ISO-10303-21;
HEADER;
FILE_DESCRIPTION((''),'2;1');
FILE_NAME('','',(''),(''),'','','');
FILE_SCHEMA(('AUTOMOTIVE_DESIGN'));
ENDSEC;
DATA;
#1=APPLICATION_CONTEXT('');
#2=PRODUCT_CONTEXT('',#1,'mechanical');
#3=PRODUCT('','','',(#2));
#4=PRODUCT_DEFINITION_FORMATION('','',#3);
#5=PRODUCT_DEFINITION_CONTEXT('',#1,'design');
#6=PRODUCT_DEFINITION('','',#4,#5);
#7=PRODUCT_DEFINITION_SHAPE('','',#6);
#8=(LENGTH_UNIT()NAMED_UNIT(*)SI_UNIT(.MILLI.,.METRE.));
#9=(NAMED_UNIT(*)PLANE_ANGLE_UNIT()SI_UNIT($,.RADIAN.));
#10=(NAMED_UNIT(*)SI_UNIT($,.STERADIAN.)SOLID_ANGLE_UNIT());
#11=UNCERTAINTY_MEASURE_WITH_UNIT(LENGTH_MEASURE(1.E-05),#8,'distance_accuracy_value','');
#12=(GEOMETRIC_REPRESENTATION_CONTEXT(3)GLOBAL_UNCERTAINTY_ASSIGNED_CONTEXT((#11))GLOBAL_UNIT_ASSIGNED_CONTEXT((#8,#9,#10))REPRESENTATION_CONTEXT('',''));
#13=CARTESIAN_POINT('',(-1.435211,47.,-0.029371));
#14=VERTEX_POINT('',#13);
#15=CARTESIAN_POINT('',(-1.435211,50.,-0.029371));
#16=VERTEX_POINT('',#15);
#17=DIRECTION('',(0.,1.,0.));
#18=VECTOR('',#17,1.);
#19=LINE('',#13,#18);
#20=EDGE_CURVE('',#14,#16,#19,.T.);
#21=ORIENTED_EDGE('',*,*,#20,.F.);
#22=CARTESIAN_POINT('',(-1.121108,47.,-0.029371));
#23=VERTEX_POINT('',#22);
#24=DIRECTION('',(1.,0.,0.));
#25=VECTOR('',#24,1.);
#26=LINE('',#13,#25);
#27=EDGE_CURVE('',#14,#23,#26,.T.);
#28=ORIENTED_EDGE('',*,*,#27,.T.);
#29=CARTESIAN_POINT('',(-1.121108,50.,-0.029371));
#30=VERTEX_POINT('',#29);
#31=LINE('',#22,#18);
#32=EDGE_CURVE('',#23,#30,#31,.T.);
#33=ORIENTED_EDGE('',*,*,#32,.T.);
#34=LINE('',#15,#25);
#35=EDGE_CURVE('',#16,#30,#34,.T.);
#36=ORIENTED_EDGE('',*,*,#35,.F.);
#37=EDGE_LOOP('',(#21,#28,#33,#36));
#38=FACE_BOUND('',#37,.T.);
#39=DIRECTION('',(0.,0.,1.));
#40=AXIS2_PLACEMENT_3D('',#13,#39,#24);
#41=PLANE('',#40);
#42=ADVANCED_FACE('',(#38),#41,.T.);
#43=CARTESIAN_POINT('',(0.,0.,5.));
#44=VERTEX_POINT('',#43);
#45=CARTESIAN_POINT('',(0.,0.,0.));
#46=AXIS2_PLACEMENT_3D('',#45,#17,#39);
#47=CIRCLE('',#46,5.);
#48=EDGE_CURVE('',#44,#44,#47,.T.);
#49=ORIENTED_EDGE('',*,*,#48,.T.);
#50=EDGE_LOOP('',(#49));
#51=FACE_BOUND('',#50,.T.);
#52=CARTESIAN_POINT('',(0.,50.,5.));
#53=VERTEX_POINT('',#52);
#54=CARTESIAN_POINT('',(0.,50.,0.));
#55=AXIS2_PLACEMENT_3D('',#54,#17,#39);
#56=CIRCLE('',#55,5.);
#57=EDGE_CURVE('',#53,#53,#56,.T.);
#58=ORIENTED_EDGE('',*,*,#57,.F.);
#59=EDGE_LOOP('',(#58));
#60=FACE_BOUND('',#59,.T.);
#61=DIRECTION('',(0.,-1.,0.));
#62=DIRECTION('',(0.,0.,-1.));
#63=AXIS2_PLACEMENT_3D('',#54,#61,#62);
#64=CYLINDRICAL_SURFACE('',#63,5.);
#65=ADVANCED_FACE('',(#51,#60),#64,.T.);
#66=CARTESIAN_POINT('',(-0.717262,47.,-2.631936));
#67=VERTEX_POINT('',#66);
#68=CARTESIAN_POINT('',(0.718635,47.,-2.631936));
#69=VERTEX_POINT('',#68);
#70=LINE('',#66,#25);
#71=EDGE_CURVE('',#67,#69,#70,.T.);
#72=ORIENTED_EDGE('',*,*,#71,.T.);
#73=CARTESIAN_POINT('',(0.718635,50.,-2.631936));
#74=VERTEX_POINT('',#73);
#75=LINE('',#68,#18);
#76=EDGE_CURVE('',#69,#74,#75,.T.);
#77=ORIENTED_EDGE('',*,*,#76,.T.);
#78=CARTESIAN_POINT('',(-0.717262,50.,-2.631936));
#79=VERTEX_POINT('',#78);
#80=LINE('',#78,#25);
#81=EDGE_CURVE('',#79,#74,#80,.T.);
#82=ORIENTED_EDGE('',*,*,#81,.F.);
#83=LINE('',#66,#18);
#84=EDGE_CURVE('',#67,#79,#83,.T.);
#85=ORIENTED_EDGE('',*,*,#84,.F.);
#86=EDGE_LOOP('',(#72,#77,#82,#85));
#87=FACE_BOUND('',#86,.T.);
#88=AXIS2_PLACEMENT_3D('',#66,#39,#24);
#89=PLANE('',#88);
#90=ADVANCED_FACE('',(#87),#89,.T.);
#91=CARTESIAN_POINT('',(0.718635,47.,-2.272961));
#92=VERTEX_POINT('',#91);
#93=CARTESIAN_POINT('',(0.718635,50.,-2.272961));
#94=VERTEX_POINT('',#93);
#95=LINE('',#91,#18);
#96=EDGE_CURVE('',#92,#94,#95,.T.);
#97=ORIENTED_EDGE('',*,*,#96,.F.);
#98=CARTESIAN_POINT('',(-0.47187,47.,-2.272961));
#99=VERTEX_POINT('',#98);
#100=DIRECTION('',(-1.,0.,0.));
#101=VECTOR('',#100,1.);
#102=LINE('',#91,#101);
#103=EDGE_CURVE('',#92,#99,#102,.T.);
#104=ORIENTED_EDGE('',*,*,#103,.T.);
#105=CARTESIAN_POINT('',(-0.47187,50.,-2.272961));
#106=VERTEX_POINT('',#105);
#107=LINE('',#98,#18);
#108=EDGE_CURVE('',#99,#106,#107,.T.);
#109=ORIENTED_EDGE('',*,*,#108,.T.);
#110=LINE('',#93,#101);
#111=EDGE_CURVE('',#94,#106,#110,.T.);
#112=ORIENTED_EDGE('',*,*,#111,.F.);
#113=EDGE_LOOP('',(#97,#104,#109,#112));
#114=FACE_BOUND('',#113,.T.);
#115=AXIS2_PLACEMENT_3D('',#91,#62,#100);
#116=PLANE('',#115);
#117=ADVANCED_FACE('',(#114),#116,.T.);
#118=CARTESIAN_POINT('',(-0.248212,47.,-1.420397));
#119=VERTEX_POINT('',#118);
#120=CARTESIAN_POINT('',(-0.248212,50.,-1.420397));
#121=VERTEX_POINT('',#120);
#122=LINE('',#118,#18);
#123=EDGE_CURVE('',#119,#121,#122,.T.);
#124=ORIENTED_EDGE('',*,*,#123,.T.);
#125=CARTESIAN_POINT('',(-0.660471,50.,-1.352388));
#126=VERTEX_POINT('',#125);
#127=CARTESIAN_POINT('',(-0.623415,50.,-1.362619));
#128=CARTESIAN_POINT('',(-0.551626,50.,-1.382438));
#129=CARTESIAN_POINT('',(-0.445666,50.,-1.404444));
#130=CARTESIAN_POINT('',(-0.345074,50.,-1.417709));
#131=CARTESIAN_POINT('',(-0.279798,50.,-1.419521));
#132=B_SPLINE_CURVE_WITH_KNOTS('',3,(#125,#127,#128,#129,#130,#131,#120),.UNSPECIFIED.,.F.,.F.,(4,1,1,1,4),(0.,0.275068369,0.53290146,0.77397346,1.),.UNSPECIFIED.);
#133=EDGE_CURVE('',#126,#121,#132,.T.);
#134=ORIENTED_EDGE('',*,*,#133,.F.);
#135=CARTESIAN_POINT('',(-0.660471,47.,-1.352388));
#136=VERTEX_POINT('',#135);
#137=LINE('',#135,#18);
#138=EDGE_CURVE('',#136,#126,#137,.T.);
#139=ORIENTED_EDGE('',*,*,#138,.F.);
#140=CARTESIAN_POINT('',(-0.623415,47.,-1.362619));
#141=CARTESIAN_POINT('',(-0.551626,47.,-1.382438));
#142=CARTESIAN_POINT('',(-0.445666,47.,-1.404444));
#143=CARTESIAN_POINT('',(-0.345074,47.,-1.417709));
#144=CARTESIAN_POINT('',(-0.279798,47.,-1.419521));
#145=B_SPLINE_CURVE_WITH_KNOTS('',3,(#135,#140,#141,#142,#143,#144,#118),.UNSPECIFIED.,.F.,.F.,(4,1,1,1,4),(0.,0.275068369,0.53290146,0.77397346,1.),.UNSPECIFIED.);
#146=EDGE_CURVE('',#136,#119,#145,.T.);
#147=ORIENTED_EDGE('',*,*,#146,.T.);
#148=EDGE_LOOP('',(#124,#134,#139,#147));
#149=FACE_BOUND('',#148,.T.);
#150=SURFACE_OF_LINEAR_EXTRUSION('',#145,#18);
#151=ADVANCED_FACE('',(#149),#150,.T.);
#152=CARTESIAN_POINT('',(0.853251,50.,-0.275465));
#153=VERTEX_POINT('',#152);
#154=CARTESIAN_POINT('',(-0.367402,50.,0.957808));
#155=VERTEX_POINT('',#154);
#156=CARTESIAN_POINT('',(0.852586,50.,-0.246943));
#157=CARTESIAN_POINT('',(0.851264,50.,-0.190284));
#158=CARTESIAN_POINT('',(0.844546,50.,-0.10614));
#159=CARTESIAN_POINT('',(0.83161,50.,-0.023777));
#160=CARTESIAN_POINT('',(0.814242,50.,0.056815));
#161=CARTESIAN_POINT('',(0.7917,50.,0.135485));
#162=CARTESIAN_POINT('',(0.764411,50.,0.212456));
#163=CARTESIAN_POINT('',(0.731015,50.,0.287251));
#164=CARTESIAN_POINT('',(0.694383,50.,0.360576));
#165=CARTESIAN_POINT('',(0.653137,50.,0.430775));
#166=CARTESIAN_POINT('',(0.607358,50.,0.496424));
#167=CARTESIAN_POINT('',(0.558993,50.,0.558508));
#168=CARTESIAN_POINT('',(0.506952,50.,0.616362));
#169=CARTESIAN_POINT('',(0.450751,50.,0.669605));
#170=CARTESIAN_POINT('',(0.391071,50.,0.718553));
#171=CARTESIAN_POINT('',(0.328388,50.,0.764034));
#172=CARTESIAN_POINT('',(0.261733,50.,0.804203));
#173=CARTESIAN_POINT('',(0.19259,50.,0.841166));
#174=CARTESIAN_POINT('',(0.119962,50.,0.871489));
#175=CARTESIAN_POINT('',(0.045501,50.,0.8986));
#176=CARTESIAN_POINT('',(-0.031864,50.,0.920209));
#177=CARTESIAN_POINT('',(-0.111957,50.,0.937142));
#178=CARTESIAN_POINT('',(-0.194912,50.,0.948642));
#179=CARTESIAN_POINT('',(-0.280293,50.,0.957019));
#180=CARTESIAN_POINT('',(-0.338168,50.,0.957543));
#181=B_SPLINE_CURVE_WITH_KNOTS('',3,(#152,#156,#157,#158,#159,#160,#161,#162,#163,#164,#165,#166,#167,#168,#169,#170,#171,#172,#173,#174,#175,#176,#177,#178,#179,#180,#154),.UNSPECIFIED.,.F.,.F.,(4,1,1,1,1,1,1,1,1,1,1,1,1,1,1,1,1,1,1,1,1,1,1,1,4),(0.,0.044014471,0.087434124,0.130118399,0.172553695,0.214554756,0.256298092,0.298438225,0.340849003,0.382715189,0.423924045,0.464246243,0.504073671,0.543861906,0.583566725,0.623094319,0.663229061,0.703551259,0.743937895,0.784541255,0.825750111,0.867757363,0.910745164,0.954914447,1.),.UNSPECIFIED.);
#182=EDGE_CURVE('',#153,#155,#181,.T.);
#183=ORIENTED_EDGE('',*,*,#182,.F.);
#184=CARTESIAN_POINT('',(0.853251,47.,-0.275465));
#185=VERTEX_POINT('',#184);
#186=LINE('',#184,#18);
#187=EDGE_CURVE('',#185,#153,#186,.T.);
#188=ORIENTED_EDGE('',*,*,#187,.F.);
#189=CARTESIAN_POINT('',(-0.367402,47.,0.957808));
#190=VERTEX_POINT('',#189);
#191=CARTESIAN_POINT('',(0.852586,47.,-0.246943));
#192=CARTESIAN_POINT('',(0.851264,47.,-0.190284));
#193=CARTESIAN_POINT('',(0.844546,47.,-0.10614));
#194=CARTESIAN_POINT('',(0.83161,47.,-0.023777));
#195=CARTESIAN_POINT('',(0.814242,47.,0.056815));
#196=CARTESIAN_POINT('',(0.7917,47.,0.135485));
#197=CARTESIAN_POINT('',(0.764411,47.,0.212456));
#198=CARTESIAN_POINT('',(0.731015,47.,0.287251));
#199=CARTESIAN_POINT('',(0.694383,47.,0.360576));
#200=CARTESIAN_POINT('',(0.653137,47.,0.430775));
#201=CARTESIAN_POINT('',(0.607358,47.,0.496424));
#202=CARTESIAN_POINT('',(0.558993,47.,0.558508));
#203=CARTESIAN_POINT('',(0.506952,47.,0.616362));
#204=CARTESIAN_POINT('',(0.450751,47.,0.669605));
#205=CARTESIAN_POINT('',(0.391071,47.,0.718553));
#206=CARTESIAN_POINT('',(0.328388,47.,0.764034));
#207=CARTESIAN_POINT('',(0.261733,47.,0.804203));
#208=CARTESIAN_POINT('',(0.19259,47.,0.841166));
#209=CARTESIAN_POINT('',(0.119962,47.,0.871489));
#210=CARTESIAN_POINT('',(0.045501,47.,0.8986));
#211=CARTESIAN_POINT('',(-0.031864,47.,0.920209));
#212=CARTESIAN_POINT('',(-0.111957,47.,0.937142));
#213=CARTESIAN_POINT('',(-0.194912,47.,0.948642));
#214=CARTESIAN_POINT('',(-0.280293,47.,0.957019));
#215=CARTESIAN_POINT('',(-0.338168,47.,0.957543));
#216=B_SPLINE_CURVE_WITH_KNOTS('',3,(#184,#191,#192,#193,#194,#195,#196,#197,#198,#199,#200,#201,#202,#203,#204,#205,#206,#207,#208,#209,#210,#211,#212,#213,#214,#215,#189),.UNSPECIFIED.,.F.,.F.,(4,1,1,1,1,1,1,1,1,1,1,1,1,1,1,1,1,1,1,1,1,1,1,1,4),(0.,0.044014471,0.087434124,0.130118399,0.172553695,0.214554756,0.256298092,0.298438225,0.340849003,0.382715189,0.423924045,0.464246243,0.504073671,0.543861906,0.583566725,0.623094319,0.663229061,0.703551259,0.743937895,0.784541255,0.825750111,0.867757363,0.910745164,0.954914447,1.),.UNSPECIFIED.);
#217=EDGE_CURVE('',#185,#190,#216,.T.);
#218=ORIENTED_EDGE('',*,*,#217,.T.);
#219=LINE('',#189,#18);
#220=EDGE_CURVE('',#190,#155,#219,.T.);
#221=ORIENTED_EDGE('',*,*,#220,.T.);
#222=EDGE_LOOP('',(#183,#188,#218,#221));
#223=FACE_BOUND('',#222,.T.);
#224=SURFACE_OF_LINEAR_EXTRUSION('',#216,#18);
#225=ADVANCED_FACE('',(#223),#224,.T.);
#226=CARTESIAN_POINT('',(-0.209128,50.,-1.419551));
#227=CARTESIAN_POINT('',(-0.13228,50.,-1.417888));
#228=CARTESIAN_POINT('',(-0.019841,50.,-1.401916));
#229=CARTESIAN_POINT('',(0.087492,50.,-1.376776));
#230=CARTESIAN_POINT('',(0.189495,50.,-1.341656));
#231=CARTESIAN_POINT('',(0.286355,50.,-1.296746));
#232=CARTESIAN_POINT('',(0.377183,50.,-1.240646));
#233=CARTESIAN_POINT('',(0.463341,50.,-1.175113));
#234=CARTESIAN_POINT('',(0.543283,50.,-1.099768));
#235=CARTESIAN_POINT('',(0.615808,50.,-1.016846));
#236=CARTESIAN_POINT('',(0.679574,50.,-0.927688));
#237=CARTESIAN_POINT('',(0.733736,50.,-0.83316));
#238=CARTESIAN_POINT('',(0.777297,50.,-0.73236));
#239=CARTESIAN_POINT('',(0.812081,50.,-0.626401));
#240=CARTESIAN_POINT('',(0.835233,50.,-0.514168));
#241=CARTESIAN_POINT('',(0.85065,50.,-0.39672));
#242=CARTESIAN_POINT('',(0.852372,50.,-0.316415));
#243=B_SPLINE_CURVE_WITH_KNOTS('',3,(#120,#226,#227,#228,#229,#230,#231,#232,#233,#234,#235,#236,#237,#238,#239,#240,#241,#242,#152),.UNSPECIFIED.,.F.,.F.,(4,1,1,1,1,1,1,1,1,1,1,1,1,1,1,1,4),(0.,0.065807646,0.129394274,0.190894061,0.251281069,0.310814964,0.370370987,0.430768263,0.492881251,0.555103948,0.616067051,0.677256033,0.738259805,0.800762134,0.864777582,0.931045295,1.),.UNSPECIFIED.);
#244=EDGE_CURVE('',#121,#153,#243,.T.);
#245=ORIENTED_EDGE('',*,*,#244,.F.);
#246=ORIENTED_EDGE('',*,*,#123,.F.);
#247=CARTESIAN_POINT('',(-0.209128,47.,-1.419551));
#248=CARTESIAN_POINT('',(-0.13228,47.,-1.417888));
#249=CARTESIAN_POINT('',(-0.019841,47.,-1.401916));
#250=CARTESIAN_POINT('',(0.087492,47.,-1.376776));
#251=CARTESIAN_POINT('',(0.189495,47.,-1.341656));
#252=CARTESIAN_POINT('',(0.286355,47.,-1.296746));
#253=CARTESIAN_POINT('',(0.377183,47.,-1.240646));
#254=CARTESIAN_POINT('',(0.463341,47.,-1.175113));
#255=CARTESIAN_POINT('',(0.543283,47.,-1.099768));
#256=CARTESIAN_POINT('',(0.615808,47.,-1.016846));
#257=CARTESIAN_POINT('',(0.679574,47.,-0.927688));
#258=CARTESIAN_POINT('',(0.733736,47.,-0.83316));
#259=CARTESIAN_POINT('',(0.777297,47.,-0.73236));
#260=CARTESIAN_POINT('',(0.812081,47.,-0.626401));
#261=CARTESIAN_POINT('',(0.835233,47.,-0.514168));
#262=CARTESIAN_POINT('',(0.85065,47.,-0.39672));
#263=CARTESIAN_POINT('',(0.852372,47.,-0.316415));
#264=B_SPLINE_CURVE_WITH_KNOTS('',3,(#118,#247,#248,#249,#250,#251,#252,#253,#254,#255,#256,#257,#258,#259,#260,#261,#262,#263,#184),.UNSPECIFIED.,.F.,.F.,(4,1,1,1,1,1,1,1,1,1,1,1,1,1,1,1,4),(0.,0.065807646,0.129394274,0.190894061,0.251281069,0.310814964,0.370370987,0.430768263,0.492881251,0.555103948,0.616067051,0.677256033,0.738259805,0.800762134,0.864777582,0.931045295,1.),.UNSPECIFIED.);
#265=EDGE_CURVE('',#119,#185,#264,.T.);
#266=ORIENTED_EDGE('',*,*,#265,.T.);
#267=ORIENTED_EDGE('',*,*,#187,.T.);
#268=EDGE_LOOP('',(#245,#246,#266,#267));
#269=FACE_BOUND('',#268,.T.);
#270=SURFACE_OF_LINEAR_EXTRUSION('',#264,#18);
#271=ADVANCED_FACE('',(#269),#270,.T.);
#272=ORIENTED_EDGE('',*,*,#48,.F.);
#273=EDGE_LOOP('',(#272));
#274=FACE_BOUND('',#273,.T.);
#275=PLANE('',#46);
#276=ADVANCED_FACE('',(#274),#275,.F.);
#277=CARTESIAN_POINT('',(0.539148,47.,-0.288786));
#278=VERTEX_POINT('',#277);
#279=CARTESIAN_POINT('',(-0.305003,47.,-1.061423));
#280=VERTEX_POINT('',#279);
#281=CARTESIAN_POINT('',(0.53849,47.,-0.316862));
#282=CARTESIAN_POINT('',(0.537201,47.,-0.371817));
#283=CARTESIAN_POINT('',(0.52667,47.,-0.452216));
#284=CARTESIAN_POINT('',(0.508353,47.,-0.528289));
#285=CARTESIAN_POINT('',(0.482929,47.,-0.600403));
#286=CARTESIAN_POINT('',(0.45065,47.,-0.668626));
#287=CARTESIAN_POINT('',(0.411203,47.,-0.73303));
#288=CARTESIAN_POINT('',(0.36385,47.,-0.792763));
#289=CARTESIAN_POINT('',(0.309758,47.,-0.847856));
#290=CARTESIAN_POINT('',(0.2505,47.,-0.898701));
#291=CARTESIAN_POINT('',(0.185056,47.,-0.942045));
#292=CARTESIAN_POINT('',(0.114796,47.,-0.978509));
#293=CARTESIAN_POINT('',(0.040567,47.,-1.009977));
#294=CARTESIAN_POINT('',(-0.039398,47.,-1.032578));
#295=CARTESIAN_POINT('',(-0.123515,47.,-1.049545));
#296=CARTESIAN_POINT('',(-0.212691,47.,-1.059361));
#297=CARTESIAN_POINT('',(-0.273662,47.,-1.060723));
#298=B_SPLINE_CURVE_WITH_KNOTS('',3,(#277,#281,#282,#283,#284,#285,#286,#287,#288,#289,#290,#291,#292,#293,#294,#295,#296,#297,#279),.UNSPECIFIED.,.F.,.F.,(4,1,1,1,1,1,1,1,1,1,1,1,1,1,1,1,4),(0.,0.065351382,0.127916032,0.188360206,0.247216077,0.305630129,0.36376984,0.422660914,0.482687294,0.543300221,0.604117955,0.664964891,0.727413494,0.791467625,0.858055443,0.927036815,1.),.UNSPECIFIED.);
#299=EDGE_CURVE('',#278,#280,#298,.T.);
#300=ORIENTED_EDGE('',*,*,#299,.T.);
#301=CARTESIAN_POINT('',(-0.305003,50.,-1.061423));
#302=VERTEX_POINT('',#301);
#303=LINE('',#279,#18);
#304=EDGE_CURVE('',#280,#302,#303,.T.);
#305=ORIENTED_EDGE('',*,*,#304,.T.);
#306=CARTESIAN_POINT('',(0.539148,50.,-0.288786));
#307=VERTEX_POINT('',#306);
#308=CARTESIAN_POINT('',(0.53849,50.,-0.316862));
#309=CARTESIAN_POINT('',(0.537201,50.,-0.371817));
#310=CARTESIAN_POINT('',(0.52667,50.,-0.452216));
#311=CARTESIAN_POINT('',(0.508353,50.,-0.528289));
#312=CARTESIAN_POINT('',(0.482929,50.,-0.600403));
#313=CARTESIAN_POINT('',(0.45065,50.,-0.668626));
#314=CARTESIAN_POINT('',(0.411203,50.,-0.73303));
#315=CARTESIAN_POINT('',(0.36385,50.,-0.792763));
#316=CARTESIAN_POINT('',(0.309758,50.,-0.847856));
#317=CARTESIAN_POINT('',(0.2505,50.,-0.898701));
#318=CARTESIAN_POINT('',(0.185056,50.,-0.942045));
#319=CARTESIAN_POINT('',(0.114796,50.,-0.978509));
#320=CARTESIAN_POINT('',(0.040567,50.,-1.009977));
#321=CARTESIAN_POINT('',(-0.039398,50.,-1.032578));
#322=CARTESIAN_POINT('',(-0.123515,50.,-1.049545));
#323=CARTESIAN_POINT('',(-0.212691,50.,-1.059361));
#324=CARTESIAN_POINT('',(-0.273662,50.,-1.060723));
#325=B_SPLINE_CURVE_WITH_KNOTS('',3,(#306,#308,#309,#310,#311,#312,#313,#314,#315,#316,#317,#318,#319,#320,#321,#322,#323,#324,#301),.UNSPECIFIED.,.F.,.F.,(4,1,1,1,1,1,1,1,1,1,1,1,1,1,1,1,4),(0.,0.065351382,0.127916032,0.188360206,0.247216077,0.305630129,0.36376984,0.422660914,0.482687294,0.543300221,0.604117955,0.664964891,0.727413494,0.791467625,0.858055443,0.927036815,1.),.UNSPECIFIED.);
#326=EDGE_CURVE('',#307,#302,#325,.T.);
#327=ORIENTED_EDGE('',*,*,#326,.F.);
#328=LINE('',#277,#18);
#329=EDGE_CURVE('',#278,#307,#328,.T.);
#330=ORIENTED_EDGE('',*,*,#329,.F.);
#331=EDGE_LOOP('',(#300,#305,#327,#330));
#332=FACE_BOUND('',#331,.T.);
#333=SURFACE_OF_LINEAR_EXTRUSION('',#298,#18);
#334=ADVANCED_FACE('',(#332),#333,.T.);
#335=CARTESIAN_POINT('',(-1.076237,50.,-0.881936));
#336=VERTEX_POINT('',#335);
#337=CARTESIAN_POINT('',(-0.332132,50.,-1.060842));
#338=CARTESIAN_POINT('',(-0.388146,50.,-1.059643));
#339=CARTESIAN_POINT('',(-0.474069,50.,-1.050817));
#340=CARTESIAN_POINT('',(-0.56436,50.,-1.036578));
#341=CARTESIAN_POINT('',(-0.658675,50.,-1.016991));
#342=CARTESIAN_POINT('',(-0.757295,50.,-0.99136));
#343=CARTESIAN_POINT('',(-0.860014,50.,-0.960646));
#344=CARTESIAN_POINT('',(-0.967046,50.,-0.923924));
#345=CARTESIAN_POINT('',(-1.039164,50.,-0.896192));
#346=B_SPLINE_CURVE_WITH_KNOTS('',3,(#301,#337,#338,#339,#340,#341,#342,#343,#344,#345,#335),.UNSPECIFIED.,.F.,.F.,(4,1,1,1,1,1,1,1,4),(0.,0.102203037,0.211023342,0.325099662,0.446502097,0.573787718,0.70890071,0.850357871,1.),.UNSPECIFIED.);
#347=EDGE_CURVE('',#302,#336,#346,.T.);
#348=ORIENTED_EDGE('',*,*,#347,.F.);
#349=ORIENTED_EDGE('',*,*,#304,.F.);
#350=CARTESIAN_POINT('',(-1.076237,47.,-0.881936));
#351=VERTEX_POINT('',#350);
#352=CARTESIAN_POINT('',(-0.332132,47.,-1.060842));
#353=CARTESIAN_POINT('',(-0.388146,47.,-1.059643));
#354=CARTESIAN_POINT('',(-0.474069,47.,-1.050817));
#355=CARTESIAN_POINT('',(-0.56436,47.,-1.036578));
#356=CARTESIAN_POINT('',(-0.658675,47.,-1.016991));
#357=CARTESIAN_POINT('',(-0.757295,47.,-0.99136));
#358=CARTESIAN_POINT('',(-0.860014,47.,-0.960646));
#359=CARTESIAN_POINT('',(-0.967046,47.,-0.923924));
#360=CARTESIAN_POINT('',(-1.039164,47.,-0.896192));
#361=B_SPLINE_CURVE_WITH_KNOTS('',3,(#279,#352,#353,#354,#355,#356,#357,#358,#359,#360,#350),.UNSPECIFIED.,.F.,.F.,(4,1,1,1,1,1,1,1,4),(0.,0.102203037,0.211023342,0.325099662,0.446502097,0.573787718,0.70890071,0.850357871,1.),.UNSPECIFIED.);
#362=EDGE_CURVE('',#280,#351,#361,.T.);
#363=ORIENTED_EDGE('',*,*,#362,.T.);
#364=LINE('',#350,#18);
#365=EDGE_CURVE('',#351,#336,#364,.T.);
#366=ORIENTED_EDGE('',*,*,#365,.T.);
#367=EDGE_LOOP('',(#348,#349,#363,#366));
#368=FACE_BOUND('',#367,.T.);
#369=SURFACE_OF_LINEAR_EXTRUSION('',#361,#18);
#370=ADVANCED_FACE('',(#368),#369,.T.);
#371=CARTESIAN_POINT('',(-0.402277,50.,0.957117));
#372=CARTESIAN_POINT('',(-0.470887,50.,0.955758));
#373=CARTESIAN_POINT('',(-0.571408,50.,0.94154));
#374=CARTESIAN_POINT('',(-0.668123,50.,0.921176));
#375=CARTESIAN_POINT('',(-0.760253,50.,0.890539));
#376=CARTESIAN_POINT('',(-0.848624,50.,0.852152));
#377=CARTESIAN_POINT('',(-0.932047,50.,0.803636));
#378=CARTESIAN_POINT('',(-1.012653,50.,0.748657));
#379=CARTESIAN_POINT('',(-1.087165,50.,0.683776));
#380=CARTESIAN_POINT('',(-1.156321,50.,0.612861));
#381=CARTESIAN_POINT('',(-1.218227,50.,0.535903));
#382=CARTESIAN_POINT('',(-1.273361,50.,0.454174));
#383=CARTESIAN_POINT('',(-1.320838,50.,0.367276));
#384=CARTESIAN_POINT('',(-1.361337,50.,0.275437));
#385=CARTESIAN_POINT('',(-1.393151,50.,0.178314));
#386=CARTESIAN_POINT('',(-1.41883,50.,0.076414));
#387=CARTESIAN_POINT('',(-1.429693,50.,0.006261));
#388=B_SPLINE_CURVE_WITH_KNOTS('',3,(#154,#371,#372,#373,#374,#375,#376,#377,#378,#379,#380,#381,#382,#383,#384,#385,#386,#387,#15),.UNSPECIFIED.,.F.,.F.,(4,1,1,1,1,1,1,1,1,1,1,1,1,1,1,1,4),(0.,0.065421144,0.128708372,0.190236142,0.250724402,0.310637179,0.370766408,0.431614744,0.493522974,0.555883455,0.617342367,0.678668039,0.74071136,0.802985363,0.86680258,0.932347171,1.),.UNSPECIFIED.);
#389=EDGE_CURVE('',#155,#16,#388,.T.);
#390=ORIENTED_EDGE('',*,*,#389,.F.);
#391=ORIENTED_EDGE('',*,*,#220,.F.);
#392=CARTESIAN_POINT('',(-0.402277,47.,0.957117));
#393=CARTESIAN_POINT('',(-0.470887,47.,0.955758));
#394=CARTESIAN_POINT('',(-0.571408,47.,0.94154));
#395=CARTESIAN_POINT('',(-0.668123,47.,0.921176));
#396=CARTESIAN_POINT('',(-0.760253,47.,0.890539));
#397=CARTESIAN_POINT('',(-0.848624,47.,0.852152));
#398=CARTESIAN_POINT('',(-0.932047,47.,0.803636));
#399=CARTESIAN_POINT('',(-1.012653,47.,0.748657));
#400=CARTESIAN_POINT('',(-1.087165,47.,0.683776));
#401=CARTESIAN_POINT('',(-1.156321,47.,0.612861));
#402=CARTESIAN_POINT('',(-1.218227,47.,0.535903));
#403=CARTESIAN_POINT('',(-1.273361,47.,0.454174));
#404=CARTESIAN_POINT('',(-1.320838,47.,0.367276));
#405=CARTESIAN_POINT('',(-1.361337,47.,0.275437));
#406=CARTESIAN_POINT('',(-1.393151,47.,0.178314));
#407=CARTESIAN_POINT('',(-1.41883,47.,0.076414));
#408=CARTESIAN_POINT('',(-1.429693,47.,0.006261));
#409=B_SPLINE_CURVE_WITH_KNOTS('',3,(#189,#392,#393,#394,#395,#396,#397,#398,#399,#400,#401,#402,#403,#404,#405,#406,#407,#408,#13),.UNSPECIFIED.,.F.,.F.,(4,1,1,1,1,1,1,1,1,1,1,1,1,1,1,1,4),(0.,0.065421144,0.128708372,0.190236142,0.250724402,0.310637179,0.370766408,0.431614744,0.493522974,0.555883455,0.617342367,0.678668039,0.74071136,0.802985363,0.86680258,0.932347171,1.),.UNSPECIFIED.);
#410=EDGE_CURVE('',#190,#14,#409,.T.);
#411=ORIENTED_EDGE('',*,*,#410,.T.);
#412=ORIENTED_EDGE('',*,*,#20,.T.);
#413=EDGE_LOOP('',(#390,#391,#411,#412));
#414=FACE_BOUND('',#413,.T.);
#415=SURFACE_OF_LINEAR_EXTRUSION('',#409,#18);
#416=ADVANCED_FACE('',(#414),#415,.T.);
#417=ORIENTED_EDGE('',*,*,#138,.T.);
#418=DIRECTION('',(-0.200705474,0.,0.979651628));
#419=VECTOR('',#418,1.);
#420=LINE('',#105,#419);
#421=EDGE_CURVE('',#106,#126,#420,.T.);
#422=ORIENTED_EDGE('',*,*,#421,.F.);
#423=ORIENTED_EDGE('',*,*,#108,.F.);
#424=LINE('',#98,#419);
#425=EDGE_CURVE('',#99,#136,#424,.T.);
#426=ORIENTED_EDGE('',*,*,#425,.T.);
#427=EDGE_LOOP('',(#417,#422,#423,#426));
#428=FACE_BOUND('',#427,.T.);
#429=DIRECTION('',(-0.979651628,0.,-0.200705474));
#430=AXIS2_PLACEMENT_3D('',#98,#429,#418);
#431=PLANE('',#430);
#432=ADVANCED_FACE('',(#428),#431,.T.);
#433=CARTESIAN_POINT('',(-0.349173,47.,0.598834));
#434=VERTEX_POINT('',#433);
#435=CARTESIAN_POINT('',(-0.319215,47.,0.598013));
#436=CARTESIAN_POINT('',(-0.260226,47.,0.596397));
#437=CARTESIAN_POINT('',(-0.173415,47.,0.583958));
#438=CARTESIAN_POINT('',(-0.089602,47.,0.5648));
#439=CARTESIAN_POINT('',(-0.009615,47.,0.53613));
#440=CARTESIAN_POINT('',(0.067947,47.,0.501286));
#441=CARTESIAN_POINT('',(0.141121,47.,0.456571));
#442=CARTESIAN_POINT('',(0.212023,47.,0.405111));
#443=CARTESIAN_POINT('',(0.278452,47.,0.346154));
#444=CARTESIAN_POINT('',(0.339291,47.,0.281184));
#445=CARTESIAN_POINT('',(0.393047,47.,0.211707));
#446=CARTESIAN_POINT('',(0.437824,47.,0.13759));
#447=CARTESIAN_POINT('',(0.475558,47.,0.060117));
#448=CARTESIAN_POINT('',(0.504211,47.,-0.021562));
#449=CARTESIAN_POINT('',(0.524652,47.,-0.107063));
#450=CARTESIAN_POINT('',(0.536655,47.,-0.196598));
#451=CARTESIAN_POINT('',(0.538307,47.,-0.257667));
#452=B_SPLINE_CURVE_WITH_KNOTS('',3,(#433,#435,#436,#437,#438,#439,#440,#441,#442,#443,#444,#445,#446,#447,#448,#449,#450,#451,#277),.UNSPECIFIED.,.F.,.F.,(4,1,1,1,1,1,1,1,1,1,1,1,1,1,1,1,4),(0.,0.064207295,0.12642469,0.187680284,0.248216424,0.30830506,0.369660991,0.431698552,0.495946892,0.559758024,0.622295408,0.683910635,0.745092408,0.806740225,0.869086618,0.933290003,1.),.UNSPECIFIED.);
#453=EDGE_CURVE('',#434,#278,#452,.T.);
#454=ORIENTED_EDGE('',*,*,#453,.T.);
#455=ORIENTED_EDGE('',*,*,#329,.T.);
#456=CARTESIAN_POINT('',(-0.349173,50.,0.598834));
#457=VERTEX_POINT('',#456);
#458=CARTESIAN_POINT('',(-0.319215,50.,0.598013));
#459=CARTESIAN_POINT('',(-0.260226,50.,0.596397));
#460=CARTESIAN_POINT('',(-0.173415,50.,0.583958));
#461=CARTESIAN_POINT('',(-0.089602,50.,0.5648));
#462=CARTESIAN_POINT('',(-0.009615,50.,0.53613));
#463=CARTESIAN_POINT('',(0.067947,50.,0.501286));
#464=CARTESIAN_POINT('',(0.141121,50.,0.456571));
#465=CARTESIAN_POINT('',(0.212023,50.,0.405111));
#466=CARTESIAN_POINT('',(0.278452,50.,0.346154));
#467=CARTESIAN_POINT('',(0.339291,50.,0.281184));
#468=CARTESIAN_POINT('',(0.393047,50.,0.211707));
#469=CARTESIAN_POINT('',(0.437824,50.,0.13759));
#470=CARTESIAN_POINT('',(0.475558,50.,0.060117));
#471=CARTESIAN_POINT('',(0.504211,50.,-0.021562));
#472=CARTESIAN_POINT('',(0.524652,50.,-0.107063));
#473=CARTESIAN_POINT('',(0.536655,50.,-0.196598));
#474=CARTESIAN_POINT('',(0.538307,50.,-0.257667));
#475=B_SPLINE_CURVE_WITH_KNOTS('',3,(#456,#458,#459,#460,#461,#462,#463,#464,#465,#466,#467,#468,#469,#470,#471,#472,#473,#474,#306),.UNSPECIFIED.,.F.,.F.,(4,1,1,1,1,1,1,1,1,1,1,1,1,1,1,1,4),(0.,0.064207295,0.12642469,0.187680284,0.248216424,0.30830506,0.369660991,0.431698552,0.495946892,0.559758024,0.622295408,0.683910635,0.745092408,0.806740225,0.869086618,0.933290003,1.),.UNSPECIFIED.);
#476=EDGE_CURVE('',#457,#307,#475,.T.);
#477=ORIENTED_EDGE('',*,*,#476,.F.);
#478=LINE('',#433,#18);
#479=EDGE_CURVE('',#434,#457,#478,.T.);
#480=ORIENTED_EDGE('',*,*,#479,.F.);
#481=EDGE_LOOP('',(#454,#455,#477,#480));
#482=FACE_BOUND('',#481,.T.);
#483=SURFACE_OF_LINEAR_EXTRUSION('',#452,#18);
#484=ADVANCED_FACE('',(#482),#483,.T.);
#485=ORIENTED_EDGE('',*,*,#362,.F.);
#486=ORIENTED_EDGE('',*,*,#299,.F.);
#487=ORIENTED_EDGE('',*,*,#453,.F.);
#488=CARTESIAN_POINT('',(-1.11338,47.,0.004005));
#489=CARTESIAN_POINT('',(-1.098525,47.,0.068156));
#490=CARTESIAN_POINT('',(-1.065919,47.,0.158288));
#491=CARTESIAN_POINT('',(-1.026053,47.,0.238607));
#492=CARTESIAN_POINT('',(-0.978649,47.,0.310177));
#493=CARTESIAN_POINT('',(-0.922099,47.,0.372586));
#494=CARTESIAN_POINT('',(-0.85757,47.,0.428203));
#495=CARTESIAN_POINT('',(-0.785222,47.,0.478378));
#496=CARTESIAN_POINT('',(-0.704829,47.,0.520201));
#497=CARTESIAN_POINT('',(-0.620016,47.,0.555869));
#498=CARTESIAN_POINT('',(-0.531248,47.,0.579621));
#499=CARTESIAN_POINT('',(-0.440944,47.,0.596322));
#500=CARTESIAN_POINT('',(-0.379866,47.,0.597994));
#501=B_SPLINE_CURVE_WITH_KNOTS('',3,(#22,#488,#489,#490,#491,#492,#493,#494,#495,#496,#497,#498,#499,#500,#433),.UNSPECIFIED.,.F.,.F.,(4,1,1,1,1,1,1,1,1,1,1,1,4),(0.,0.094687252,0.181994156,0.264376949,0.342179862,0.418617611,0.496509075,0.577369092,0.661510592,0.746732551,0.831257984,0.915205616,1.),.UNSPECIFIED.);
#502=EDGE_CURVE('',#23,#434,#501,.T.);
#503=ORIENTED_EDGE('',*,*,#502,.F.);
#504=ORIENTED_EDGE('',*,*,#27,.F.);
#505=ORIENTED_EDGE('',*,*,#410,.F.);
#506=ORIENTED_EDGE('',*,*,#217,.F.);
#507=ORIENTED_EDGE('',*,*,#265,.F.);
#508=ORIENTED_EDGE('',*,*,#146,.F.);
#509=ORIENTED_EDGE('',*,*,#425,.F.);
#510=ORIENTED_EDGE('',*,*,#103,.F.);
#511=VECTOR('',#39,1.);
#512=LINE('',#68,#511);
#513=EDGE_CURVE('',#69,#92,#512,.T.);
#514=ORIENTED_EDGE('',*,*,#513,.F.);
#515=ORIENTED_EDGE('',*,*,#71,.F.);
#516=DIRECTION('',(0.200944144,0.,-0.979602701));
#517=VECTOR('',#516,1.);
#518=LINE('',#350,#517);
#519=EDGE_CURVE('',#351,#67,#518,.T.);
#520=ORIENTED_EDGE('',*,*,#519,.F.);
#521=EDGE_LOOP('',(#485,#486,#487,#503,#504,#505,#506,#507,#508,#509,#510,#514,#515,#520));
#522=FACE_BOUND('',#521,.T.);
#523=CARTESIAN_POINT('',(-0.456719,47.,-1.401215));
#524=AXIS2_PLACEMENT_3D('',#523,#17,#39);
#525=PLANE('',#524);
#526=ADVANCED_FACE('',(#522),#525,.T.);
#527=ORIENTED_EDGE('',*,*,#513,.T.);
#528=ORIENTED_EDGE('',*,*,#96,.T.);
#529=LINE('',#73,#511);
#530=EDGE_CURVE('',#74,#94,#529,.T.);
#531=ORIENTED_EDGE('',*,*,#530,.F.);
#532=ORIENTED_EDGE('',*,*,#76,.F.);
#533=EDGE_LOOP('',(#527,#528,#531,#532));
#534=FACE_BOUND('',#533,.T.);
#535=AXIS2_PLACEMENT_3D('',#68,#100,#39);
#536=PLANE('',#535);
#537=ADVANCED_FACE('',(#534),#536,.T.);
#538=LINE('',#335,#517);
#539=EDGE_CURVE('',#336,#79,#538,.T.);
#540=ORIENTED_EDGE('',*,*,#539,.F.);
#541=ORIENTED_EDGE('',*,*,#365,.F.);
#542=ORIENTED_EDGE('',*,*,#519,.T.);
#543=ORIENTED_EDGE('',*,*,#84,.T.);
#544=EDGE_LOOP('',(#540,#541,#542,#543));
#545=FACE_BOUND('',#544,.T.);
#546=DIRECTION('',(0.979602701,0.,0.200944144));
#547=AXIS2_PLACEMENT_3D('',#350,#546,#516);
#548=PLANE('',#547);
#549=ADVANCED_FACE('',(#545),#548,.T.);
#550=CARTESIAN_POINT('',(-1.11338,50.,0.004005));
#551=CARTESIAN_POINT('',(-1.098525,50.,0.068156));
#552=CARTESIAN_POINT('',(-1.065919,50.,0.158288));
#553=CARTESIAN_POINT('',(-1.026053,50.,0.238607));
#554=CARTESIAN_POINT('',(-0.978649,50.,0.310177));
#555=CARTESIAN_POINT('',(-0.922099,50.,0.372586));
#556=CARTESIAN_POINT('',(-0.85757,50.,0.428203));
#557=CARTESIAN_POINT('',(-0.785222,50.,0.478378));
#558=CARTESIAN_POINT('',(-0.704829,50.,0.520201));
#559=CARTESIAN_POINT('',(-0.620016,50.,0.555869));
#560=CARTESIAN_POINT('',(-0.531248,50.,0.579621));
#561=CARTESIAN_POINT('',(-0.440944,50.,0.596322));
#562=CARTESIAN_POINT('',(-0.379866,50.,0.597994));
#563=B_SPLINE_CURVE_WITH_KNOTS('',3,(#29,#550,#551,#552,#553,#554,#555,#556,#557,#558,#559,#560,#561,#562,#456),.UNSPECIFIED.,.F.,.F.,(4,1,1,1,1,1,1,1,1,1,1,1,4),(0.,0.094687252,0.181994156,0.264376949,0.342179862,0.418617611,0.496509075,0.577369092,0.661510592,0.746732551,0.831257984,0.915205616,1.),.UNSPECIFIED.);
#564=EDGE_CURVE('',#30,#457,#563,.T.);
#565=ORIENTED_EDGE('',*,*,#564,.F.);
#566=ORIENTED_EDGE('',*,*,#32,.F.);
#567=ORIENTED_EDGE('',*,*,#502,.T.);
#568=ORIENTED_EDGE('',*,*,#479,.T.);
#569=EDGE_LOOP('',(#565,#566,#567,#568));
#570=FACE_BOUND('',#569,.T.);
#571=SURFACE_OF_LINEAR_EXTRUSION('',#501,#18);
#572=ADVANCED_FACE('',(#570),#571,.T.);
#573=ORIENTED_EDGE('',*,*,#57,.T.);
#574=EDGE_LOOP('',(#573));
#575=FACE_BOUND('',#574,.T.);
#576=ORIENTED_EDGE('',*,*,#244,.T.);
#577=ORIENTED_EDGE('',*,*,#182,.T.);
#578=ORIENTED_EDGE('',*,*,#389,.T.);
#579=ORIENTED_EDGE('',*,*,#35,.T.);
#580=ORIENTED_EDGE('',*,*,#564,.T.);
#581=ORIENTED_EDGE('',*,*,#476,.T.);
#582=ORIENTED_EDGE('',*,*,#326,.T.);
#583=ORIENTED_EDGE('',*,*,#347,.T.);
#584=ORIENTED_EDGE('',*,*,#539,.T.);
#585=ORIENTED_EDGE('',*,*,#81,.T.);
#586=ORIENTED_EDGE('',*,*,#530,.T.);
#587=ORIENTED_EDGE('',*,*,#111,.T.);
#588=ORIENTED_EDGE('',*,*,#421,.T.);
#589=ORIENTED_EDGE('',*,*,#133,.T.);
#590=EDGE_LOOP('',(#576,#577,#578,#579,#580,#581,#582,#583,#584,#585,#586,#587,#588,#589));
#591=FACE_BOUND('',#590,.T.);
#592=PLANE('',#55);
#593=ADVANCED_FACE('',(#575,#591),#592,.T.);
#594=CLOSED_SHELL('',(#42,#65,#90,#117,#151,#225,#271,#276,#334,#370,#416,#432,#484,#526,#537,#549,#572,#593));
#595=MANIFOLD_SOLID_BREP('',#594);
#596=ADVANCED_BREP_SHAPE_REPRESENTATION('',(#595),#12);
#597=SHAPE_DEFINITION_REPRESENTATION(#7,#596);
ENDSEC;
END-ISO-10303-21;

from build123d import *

# Parameters (mm, degrees)
SKETCH1_R           = 5
BOSS_EXTRUDE1_DEPTH = 50
CUT_EXTRUDE1_DEPTH  = 3


with BuildPart() as part:
    # Sketch1 → Boss-Extrude1 (new body)
    with BuildSketch(Plane(origin=(0, 0, 0), x_dir=(1, 0, 0), z_dir=(0, 1, 0))):
        Circle(SKETCH1_R)
    extrude(amount=BOSS_EXTRUDE1_DEPTH)

    # Sketch2 → Cut-Extrude1 (cut)
    with BuildSketch(Plane(origin=(0, 50, 0), x_dir=(1, 0, 0), z_dir=(0, 1, 0))):
        with BuildLine():
            Line((0.718635203, 2.631935528), (0.718635203, 2.272961169))
            Line((0.718635203, 2.272961169), (-0.471869605, 2.272961169))
            Line((-0.471869605, 2.272961169), (-0.660471368, 1.352388253))
            add(Edge.make_bspline(
                [(-0.660471368, 1.352388253), (-0.623415494, 1.362618525), (-0.551625598, 1.382438058), (-0.445665737, 1.404443829), (-0.345073533, 1.417709273), (-0.279798163, 1.419520583), (-0.248211753, 1.420397067)],
                knots=[0, 0, 0, 0, 0.000115302, 0.000223379, 0.000324431, 0.000419176, 0.000419176, 0.000419176, 0.000419176], degree=3))
            add(Edge.make_bspline(
                [(-0.248211753, 1.420397067), (-0.209128013, 1.419551131), (-0.132279616, 1.41788781), (-0.019840669, 1.401915961), (0.087492225, 1.376776046), (0.189494595, 1.341655524), (0.286355146, 1.296745791), (0.377182707, 1.240645851), (0.46334062, 1.17511252), (0.543283214, 1.099767508), (0.615807522, 1.016845891), (0.679573512, 0.92768802), (0.733736102, 0.833160358), (0.777296857, 0.732359749), (0.812081191, 0.626400596), (0.835233186, 0.514168013), (0.850649895, 0.396719893), (0.852372281, 0.316415323), (0.853250587, 0.275465176)],
                knots=[0, 0, 0, 0, 0.00011719, 0.000230425, 0.000339944, 0.000447481, 0.000553499, 0.000659556, 0.000767111, 0.000877722, 0.000988528, 0.001097091, 0.001206056, 0.001314692, 0.001425996, 0.001539995, 0.001658004, 0.001780798, 0.001780798, 0.001780798, 0.001780798], degree=3))
            add(Edge.make_bspline(
                [(0.853250587, 0.275465176), (0.852585512, 0.246942956), (0.851264349, 0.190283968), (0.844545762, 0.106139767), (0.831610046, 0.023776934), (0.814242321, -0.056815458), (0.791699904, -0.13548483), (0.76441085, -0.212456358), (0.731014822, -0.287250965), (0.694383447, -0.36057636), (0.653136969, -0.430774867), (0.607358461, -0.496423853), (0.55899297, -0.558508135), (0.506951585, -0.616361868), (0.45075059, -0.669604886), (0.391070623, -0.718553167), (0.328387904, -0.764034497), (0.261732661, -0.804202693), (0.192590179, -0.841165649), (0.119961961, -0.871489186), (0.045501261, -0.898599714), (-0.031863615, -0.920209242), (-0.111957427, -0.937141796), (-0.194912203, -0.948642397), (-0.280292873, -0.957018834), (-0.338167885, -0.957543191), (-0.367402458, -0.957808061)],
                knots=[0, 0, 0, 0, 8.5583e-05, 0.000170009, 0.000253005, 0.000335518, 0.000417186, 0.000498352, 0.000580291, 0.000662755, 0.000744161, 0.000824288, 0.000902692, 0.000980133, 0.001057498, 0.001134702, 0.00121156, 0.001289599, 0.001368002, 0.001446531, 0.001525481, 0.001605609, 0.001687289, 0.001770875, 0.001856759, 0.001944425, 0.001944425, 0.001944425, 0.001944425], degree=3))
            add(Edge.make_bspline(
                [(-0.367402458, -0.957808061), (-0.402276638, -0.957117223), (-0.470887469, -0.955758081), (-0.571408036, -0.941539596), (-0.668122642, -0.92117568), (-0.760252743, -0.89053941), (-0.848624007, -0.852152115), (-0.932046724, -0.803635944), (-1.012652501, -0.74865684), (-1.087164537, -0.683776487), (-1.156320651, -0.612860805), (-1.21822716, -0.535903164), (-1.273360736, -0.454173722), (-1.320838483, -0.367275567), (-1.361336505, -0.275437037), (-1.393151493, -0.178314036), (-1.418829848, -0.076414032), (-1.429693268, -0.006260521), (-1.435210951, 0.029371426)],
                knots=[0, 0, 0, 0, 0.000104552, 0.000205693, 0.000304023, 0.000400691, 0.00049644, 0.000592535, 0.000689779, 0.000788716, 0.000888377, 0.000986596, 0.001084603, 0.001183757, 0.001283279, 0.001385267, 0.001490017, 0.001598135, 0.001598135, 0.001598135, 0.001598135], degree=3))
            Line((-1.435210951, 0.029371426), (-1.121108387, 0.029371426))
            add(Edge.make_bspline(
                [(-1.121108387, 0.029371426), (-1.11337983, -0.004005027), (-1.098525113, -0.068156421), (-1.065919365, -0.158287763), (-1.026053489, -0.238606986), (-0.978649141, -0.31017657), (-0.92209911, -0.372585567), (-0.857569681, -0.428202629), (-0.785221958, -0.478377758), (-0.704828729, -0.520200525), (-0.620015649, -0.555869279), (-0.531248439, -0.579620974), (-0.440944093, -0.596321867), (-0.379865723, -0.597993627), (-0.349173291, -0.598833702)],
                knots=[0, 0, 0, 0, 0.000102709, 0.000197412, 0.000286774, 0.000371169, 0.000454082, 0.000538572, 0.000626283, 0.000717552, 0.000809994, 0.00090168, 0.00099274, 0.001084718, 0.001084718, 0.001084718, 0.001084718], degree=3))
            add(Edge.make_bspline(
                [(-0.349173291, -0.598833702), (-0.319214847, -0.598012924), (-0.260226424, -0.596396806), (-0.173415038, -0.583957794), (-0.089602164, -0.564800223), (-0.009614807, -0.536130368), (0.067946733, -0.501285649), (0.141120503, -0.456570573), (0.21202338, -0.405110555), (0.278451514, -0.346153925), (0.339290963, -0.28118423), (0.393047084, -0.211706837), (0.437823998, -0.13758999), (0.475558107, -0.060116837), (0.504211405, 0.02156172), (0.524652387, 0.107062895), (0.536655445, 0.196597875), (0.538306625, 0.257667185), (0.539148023, 0.28878649)],
                knots=[0, 0, 0, 0, 8.9842e-05, 0.0001769, 0.000262612, 0.000347317, 0.000431396, 0.000517249, 0.000604055, 0.000693954, 0.000783242, 0.000870748, 0.000956963, 0.001042571, 0.001128832, 0.00121607, 0.001305907, 0.001399251, 0.001399251, 0.001399251, 0.001399251], degree=3))
            add(Edge.make_bspline(
                [(0.539148023, 0.28878649), (0.538489544, 0.316862242), (0.537200664, 0.371816531), (0.526670093, 0.452215737), (0.508353121, 0.528288779), (0.482929241, 0.600403013), (0.450649733, 0.668626456), (0.411203421, 0.733029516), (0.363850023, 0.792763349), (0.309758135, 0.847855903), (0.250500094, 0.898700778), (0.185056351, 0.942044864), (0.114796424, 0.978508782), (0.040566825, 1.00997678), (-0.039398074, 1.032577525), (-0.123514706, 1.049545411), (-0.212691414, 1.059360774), (-0.273662102, 1.060722662), (-0.305002618, 1.061422708)],
                knots=[0, 0, 0, 0, 8.4208e-05, 0.000164824, 0.000242709, 0.000318547, 0.000393815, 0.000468731, 0.000544614, 0.00062196, 0.000700062, 0.000778428, 0.000856831, 0.000937299, 0.001019835, 0.001105635, 0.00119452, 0.001288536, 0.001288536, 0.001288536, 0.001288536], degree=3))
            add(Edge.make_bspline(
                [(-0.305002618, 1.061422708), (-0.332131547, 1.060842117), (-0.388145902, 1.059643343), (-0.474068729, 1.050816846), (-0.564360452, 1.036577552), (-0.658674947, 1.016991305), (-0.757295455, 0.991360228), (-0.860013856, 0.960645727), (-0.967046123, 0.923923728), (-1.039163847, 0.896191515), (-1.076236592, 0.881935528)],
                knots=[0, 0, 0, 0, 8.1378e-05, 0.000168026, 0.000258858, 0.000355524, 0.000456875, 0.000564457, 0.000677092, 0.000796243, 0.000796243, 0.000796243, 0.000796243], degree=3))
            Line((-1.076236592, 0.881935528), (-0.717262233, 2.631935528))
            Line((-0.717262233, 2.631935528), (0.718635203, 2.631935528))
        make_face()
    extrude(amount=-CUT_EXTRUDE1_DEPTH, mode=Mode.SUBTRACT)


solid = part.part
